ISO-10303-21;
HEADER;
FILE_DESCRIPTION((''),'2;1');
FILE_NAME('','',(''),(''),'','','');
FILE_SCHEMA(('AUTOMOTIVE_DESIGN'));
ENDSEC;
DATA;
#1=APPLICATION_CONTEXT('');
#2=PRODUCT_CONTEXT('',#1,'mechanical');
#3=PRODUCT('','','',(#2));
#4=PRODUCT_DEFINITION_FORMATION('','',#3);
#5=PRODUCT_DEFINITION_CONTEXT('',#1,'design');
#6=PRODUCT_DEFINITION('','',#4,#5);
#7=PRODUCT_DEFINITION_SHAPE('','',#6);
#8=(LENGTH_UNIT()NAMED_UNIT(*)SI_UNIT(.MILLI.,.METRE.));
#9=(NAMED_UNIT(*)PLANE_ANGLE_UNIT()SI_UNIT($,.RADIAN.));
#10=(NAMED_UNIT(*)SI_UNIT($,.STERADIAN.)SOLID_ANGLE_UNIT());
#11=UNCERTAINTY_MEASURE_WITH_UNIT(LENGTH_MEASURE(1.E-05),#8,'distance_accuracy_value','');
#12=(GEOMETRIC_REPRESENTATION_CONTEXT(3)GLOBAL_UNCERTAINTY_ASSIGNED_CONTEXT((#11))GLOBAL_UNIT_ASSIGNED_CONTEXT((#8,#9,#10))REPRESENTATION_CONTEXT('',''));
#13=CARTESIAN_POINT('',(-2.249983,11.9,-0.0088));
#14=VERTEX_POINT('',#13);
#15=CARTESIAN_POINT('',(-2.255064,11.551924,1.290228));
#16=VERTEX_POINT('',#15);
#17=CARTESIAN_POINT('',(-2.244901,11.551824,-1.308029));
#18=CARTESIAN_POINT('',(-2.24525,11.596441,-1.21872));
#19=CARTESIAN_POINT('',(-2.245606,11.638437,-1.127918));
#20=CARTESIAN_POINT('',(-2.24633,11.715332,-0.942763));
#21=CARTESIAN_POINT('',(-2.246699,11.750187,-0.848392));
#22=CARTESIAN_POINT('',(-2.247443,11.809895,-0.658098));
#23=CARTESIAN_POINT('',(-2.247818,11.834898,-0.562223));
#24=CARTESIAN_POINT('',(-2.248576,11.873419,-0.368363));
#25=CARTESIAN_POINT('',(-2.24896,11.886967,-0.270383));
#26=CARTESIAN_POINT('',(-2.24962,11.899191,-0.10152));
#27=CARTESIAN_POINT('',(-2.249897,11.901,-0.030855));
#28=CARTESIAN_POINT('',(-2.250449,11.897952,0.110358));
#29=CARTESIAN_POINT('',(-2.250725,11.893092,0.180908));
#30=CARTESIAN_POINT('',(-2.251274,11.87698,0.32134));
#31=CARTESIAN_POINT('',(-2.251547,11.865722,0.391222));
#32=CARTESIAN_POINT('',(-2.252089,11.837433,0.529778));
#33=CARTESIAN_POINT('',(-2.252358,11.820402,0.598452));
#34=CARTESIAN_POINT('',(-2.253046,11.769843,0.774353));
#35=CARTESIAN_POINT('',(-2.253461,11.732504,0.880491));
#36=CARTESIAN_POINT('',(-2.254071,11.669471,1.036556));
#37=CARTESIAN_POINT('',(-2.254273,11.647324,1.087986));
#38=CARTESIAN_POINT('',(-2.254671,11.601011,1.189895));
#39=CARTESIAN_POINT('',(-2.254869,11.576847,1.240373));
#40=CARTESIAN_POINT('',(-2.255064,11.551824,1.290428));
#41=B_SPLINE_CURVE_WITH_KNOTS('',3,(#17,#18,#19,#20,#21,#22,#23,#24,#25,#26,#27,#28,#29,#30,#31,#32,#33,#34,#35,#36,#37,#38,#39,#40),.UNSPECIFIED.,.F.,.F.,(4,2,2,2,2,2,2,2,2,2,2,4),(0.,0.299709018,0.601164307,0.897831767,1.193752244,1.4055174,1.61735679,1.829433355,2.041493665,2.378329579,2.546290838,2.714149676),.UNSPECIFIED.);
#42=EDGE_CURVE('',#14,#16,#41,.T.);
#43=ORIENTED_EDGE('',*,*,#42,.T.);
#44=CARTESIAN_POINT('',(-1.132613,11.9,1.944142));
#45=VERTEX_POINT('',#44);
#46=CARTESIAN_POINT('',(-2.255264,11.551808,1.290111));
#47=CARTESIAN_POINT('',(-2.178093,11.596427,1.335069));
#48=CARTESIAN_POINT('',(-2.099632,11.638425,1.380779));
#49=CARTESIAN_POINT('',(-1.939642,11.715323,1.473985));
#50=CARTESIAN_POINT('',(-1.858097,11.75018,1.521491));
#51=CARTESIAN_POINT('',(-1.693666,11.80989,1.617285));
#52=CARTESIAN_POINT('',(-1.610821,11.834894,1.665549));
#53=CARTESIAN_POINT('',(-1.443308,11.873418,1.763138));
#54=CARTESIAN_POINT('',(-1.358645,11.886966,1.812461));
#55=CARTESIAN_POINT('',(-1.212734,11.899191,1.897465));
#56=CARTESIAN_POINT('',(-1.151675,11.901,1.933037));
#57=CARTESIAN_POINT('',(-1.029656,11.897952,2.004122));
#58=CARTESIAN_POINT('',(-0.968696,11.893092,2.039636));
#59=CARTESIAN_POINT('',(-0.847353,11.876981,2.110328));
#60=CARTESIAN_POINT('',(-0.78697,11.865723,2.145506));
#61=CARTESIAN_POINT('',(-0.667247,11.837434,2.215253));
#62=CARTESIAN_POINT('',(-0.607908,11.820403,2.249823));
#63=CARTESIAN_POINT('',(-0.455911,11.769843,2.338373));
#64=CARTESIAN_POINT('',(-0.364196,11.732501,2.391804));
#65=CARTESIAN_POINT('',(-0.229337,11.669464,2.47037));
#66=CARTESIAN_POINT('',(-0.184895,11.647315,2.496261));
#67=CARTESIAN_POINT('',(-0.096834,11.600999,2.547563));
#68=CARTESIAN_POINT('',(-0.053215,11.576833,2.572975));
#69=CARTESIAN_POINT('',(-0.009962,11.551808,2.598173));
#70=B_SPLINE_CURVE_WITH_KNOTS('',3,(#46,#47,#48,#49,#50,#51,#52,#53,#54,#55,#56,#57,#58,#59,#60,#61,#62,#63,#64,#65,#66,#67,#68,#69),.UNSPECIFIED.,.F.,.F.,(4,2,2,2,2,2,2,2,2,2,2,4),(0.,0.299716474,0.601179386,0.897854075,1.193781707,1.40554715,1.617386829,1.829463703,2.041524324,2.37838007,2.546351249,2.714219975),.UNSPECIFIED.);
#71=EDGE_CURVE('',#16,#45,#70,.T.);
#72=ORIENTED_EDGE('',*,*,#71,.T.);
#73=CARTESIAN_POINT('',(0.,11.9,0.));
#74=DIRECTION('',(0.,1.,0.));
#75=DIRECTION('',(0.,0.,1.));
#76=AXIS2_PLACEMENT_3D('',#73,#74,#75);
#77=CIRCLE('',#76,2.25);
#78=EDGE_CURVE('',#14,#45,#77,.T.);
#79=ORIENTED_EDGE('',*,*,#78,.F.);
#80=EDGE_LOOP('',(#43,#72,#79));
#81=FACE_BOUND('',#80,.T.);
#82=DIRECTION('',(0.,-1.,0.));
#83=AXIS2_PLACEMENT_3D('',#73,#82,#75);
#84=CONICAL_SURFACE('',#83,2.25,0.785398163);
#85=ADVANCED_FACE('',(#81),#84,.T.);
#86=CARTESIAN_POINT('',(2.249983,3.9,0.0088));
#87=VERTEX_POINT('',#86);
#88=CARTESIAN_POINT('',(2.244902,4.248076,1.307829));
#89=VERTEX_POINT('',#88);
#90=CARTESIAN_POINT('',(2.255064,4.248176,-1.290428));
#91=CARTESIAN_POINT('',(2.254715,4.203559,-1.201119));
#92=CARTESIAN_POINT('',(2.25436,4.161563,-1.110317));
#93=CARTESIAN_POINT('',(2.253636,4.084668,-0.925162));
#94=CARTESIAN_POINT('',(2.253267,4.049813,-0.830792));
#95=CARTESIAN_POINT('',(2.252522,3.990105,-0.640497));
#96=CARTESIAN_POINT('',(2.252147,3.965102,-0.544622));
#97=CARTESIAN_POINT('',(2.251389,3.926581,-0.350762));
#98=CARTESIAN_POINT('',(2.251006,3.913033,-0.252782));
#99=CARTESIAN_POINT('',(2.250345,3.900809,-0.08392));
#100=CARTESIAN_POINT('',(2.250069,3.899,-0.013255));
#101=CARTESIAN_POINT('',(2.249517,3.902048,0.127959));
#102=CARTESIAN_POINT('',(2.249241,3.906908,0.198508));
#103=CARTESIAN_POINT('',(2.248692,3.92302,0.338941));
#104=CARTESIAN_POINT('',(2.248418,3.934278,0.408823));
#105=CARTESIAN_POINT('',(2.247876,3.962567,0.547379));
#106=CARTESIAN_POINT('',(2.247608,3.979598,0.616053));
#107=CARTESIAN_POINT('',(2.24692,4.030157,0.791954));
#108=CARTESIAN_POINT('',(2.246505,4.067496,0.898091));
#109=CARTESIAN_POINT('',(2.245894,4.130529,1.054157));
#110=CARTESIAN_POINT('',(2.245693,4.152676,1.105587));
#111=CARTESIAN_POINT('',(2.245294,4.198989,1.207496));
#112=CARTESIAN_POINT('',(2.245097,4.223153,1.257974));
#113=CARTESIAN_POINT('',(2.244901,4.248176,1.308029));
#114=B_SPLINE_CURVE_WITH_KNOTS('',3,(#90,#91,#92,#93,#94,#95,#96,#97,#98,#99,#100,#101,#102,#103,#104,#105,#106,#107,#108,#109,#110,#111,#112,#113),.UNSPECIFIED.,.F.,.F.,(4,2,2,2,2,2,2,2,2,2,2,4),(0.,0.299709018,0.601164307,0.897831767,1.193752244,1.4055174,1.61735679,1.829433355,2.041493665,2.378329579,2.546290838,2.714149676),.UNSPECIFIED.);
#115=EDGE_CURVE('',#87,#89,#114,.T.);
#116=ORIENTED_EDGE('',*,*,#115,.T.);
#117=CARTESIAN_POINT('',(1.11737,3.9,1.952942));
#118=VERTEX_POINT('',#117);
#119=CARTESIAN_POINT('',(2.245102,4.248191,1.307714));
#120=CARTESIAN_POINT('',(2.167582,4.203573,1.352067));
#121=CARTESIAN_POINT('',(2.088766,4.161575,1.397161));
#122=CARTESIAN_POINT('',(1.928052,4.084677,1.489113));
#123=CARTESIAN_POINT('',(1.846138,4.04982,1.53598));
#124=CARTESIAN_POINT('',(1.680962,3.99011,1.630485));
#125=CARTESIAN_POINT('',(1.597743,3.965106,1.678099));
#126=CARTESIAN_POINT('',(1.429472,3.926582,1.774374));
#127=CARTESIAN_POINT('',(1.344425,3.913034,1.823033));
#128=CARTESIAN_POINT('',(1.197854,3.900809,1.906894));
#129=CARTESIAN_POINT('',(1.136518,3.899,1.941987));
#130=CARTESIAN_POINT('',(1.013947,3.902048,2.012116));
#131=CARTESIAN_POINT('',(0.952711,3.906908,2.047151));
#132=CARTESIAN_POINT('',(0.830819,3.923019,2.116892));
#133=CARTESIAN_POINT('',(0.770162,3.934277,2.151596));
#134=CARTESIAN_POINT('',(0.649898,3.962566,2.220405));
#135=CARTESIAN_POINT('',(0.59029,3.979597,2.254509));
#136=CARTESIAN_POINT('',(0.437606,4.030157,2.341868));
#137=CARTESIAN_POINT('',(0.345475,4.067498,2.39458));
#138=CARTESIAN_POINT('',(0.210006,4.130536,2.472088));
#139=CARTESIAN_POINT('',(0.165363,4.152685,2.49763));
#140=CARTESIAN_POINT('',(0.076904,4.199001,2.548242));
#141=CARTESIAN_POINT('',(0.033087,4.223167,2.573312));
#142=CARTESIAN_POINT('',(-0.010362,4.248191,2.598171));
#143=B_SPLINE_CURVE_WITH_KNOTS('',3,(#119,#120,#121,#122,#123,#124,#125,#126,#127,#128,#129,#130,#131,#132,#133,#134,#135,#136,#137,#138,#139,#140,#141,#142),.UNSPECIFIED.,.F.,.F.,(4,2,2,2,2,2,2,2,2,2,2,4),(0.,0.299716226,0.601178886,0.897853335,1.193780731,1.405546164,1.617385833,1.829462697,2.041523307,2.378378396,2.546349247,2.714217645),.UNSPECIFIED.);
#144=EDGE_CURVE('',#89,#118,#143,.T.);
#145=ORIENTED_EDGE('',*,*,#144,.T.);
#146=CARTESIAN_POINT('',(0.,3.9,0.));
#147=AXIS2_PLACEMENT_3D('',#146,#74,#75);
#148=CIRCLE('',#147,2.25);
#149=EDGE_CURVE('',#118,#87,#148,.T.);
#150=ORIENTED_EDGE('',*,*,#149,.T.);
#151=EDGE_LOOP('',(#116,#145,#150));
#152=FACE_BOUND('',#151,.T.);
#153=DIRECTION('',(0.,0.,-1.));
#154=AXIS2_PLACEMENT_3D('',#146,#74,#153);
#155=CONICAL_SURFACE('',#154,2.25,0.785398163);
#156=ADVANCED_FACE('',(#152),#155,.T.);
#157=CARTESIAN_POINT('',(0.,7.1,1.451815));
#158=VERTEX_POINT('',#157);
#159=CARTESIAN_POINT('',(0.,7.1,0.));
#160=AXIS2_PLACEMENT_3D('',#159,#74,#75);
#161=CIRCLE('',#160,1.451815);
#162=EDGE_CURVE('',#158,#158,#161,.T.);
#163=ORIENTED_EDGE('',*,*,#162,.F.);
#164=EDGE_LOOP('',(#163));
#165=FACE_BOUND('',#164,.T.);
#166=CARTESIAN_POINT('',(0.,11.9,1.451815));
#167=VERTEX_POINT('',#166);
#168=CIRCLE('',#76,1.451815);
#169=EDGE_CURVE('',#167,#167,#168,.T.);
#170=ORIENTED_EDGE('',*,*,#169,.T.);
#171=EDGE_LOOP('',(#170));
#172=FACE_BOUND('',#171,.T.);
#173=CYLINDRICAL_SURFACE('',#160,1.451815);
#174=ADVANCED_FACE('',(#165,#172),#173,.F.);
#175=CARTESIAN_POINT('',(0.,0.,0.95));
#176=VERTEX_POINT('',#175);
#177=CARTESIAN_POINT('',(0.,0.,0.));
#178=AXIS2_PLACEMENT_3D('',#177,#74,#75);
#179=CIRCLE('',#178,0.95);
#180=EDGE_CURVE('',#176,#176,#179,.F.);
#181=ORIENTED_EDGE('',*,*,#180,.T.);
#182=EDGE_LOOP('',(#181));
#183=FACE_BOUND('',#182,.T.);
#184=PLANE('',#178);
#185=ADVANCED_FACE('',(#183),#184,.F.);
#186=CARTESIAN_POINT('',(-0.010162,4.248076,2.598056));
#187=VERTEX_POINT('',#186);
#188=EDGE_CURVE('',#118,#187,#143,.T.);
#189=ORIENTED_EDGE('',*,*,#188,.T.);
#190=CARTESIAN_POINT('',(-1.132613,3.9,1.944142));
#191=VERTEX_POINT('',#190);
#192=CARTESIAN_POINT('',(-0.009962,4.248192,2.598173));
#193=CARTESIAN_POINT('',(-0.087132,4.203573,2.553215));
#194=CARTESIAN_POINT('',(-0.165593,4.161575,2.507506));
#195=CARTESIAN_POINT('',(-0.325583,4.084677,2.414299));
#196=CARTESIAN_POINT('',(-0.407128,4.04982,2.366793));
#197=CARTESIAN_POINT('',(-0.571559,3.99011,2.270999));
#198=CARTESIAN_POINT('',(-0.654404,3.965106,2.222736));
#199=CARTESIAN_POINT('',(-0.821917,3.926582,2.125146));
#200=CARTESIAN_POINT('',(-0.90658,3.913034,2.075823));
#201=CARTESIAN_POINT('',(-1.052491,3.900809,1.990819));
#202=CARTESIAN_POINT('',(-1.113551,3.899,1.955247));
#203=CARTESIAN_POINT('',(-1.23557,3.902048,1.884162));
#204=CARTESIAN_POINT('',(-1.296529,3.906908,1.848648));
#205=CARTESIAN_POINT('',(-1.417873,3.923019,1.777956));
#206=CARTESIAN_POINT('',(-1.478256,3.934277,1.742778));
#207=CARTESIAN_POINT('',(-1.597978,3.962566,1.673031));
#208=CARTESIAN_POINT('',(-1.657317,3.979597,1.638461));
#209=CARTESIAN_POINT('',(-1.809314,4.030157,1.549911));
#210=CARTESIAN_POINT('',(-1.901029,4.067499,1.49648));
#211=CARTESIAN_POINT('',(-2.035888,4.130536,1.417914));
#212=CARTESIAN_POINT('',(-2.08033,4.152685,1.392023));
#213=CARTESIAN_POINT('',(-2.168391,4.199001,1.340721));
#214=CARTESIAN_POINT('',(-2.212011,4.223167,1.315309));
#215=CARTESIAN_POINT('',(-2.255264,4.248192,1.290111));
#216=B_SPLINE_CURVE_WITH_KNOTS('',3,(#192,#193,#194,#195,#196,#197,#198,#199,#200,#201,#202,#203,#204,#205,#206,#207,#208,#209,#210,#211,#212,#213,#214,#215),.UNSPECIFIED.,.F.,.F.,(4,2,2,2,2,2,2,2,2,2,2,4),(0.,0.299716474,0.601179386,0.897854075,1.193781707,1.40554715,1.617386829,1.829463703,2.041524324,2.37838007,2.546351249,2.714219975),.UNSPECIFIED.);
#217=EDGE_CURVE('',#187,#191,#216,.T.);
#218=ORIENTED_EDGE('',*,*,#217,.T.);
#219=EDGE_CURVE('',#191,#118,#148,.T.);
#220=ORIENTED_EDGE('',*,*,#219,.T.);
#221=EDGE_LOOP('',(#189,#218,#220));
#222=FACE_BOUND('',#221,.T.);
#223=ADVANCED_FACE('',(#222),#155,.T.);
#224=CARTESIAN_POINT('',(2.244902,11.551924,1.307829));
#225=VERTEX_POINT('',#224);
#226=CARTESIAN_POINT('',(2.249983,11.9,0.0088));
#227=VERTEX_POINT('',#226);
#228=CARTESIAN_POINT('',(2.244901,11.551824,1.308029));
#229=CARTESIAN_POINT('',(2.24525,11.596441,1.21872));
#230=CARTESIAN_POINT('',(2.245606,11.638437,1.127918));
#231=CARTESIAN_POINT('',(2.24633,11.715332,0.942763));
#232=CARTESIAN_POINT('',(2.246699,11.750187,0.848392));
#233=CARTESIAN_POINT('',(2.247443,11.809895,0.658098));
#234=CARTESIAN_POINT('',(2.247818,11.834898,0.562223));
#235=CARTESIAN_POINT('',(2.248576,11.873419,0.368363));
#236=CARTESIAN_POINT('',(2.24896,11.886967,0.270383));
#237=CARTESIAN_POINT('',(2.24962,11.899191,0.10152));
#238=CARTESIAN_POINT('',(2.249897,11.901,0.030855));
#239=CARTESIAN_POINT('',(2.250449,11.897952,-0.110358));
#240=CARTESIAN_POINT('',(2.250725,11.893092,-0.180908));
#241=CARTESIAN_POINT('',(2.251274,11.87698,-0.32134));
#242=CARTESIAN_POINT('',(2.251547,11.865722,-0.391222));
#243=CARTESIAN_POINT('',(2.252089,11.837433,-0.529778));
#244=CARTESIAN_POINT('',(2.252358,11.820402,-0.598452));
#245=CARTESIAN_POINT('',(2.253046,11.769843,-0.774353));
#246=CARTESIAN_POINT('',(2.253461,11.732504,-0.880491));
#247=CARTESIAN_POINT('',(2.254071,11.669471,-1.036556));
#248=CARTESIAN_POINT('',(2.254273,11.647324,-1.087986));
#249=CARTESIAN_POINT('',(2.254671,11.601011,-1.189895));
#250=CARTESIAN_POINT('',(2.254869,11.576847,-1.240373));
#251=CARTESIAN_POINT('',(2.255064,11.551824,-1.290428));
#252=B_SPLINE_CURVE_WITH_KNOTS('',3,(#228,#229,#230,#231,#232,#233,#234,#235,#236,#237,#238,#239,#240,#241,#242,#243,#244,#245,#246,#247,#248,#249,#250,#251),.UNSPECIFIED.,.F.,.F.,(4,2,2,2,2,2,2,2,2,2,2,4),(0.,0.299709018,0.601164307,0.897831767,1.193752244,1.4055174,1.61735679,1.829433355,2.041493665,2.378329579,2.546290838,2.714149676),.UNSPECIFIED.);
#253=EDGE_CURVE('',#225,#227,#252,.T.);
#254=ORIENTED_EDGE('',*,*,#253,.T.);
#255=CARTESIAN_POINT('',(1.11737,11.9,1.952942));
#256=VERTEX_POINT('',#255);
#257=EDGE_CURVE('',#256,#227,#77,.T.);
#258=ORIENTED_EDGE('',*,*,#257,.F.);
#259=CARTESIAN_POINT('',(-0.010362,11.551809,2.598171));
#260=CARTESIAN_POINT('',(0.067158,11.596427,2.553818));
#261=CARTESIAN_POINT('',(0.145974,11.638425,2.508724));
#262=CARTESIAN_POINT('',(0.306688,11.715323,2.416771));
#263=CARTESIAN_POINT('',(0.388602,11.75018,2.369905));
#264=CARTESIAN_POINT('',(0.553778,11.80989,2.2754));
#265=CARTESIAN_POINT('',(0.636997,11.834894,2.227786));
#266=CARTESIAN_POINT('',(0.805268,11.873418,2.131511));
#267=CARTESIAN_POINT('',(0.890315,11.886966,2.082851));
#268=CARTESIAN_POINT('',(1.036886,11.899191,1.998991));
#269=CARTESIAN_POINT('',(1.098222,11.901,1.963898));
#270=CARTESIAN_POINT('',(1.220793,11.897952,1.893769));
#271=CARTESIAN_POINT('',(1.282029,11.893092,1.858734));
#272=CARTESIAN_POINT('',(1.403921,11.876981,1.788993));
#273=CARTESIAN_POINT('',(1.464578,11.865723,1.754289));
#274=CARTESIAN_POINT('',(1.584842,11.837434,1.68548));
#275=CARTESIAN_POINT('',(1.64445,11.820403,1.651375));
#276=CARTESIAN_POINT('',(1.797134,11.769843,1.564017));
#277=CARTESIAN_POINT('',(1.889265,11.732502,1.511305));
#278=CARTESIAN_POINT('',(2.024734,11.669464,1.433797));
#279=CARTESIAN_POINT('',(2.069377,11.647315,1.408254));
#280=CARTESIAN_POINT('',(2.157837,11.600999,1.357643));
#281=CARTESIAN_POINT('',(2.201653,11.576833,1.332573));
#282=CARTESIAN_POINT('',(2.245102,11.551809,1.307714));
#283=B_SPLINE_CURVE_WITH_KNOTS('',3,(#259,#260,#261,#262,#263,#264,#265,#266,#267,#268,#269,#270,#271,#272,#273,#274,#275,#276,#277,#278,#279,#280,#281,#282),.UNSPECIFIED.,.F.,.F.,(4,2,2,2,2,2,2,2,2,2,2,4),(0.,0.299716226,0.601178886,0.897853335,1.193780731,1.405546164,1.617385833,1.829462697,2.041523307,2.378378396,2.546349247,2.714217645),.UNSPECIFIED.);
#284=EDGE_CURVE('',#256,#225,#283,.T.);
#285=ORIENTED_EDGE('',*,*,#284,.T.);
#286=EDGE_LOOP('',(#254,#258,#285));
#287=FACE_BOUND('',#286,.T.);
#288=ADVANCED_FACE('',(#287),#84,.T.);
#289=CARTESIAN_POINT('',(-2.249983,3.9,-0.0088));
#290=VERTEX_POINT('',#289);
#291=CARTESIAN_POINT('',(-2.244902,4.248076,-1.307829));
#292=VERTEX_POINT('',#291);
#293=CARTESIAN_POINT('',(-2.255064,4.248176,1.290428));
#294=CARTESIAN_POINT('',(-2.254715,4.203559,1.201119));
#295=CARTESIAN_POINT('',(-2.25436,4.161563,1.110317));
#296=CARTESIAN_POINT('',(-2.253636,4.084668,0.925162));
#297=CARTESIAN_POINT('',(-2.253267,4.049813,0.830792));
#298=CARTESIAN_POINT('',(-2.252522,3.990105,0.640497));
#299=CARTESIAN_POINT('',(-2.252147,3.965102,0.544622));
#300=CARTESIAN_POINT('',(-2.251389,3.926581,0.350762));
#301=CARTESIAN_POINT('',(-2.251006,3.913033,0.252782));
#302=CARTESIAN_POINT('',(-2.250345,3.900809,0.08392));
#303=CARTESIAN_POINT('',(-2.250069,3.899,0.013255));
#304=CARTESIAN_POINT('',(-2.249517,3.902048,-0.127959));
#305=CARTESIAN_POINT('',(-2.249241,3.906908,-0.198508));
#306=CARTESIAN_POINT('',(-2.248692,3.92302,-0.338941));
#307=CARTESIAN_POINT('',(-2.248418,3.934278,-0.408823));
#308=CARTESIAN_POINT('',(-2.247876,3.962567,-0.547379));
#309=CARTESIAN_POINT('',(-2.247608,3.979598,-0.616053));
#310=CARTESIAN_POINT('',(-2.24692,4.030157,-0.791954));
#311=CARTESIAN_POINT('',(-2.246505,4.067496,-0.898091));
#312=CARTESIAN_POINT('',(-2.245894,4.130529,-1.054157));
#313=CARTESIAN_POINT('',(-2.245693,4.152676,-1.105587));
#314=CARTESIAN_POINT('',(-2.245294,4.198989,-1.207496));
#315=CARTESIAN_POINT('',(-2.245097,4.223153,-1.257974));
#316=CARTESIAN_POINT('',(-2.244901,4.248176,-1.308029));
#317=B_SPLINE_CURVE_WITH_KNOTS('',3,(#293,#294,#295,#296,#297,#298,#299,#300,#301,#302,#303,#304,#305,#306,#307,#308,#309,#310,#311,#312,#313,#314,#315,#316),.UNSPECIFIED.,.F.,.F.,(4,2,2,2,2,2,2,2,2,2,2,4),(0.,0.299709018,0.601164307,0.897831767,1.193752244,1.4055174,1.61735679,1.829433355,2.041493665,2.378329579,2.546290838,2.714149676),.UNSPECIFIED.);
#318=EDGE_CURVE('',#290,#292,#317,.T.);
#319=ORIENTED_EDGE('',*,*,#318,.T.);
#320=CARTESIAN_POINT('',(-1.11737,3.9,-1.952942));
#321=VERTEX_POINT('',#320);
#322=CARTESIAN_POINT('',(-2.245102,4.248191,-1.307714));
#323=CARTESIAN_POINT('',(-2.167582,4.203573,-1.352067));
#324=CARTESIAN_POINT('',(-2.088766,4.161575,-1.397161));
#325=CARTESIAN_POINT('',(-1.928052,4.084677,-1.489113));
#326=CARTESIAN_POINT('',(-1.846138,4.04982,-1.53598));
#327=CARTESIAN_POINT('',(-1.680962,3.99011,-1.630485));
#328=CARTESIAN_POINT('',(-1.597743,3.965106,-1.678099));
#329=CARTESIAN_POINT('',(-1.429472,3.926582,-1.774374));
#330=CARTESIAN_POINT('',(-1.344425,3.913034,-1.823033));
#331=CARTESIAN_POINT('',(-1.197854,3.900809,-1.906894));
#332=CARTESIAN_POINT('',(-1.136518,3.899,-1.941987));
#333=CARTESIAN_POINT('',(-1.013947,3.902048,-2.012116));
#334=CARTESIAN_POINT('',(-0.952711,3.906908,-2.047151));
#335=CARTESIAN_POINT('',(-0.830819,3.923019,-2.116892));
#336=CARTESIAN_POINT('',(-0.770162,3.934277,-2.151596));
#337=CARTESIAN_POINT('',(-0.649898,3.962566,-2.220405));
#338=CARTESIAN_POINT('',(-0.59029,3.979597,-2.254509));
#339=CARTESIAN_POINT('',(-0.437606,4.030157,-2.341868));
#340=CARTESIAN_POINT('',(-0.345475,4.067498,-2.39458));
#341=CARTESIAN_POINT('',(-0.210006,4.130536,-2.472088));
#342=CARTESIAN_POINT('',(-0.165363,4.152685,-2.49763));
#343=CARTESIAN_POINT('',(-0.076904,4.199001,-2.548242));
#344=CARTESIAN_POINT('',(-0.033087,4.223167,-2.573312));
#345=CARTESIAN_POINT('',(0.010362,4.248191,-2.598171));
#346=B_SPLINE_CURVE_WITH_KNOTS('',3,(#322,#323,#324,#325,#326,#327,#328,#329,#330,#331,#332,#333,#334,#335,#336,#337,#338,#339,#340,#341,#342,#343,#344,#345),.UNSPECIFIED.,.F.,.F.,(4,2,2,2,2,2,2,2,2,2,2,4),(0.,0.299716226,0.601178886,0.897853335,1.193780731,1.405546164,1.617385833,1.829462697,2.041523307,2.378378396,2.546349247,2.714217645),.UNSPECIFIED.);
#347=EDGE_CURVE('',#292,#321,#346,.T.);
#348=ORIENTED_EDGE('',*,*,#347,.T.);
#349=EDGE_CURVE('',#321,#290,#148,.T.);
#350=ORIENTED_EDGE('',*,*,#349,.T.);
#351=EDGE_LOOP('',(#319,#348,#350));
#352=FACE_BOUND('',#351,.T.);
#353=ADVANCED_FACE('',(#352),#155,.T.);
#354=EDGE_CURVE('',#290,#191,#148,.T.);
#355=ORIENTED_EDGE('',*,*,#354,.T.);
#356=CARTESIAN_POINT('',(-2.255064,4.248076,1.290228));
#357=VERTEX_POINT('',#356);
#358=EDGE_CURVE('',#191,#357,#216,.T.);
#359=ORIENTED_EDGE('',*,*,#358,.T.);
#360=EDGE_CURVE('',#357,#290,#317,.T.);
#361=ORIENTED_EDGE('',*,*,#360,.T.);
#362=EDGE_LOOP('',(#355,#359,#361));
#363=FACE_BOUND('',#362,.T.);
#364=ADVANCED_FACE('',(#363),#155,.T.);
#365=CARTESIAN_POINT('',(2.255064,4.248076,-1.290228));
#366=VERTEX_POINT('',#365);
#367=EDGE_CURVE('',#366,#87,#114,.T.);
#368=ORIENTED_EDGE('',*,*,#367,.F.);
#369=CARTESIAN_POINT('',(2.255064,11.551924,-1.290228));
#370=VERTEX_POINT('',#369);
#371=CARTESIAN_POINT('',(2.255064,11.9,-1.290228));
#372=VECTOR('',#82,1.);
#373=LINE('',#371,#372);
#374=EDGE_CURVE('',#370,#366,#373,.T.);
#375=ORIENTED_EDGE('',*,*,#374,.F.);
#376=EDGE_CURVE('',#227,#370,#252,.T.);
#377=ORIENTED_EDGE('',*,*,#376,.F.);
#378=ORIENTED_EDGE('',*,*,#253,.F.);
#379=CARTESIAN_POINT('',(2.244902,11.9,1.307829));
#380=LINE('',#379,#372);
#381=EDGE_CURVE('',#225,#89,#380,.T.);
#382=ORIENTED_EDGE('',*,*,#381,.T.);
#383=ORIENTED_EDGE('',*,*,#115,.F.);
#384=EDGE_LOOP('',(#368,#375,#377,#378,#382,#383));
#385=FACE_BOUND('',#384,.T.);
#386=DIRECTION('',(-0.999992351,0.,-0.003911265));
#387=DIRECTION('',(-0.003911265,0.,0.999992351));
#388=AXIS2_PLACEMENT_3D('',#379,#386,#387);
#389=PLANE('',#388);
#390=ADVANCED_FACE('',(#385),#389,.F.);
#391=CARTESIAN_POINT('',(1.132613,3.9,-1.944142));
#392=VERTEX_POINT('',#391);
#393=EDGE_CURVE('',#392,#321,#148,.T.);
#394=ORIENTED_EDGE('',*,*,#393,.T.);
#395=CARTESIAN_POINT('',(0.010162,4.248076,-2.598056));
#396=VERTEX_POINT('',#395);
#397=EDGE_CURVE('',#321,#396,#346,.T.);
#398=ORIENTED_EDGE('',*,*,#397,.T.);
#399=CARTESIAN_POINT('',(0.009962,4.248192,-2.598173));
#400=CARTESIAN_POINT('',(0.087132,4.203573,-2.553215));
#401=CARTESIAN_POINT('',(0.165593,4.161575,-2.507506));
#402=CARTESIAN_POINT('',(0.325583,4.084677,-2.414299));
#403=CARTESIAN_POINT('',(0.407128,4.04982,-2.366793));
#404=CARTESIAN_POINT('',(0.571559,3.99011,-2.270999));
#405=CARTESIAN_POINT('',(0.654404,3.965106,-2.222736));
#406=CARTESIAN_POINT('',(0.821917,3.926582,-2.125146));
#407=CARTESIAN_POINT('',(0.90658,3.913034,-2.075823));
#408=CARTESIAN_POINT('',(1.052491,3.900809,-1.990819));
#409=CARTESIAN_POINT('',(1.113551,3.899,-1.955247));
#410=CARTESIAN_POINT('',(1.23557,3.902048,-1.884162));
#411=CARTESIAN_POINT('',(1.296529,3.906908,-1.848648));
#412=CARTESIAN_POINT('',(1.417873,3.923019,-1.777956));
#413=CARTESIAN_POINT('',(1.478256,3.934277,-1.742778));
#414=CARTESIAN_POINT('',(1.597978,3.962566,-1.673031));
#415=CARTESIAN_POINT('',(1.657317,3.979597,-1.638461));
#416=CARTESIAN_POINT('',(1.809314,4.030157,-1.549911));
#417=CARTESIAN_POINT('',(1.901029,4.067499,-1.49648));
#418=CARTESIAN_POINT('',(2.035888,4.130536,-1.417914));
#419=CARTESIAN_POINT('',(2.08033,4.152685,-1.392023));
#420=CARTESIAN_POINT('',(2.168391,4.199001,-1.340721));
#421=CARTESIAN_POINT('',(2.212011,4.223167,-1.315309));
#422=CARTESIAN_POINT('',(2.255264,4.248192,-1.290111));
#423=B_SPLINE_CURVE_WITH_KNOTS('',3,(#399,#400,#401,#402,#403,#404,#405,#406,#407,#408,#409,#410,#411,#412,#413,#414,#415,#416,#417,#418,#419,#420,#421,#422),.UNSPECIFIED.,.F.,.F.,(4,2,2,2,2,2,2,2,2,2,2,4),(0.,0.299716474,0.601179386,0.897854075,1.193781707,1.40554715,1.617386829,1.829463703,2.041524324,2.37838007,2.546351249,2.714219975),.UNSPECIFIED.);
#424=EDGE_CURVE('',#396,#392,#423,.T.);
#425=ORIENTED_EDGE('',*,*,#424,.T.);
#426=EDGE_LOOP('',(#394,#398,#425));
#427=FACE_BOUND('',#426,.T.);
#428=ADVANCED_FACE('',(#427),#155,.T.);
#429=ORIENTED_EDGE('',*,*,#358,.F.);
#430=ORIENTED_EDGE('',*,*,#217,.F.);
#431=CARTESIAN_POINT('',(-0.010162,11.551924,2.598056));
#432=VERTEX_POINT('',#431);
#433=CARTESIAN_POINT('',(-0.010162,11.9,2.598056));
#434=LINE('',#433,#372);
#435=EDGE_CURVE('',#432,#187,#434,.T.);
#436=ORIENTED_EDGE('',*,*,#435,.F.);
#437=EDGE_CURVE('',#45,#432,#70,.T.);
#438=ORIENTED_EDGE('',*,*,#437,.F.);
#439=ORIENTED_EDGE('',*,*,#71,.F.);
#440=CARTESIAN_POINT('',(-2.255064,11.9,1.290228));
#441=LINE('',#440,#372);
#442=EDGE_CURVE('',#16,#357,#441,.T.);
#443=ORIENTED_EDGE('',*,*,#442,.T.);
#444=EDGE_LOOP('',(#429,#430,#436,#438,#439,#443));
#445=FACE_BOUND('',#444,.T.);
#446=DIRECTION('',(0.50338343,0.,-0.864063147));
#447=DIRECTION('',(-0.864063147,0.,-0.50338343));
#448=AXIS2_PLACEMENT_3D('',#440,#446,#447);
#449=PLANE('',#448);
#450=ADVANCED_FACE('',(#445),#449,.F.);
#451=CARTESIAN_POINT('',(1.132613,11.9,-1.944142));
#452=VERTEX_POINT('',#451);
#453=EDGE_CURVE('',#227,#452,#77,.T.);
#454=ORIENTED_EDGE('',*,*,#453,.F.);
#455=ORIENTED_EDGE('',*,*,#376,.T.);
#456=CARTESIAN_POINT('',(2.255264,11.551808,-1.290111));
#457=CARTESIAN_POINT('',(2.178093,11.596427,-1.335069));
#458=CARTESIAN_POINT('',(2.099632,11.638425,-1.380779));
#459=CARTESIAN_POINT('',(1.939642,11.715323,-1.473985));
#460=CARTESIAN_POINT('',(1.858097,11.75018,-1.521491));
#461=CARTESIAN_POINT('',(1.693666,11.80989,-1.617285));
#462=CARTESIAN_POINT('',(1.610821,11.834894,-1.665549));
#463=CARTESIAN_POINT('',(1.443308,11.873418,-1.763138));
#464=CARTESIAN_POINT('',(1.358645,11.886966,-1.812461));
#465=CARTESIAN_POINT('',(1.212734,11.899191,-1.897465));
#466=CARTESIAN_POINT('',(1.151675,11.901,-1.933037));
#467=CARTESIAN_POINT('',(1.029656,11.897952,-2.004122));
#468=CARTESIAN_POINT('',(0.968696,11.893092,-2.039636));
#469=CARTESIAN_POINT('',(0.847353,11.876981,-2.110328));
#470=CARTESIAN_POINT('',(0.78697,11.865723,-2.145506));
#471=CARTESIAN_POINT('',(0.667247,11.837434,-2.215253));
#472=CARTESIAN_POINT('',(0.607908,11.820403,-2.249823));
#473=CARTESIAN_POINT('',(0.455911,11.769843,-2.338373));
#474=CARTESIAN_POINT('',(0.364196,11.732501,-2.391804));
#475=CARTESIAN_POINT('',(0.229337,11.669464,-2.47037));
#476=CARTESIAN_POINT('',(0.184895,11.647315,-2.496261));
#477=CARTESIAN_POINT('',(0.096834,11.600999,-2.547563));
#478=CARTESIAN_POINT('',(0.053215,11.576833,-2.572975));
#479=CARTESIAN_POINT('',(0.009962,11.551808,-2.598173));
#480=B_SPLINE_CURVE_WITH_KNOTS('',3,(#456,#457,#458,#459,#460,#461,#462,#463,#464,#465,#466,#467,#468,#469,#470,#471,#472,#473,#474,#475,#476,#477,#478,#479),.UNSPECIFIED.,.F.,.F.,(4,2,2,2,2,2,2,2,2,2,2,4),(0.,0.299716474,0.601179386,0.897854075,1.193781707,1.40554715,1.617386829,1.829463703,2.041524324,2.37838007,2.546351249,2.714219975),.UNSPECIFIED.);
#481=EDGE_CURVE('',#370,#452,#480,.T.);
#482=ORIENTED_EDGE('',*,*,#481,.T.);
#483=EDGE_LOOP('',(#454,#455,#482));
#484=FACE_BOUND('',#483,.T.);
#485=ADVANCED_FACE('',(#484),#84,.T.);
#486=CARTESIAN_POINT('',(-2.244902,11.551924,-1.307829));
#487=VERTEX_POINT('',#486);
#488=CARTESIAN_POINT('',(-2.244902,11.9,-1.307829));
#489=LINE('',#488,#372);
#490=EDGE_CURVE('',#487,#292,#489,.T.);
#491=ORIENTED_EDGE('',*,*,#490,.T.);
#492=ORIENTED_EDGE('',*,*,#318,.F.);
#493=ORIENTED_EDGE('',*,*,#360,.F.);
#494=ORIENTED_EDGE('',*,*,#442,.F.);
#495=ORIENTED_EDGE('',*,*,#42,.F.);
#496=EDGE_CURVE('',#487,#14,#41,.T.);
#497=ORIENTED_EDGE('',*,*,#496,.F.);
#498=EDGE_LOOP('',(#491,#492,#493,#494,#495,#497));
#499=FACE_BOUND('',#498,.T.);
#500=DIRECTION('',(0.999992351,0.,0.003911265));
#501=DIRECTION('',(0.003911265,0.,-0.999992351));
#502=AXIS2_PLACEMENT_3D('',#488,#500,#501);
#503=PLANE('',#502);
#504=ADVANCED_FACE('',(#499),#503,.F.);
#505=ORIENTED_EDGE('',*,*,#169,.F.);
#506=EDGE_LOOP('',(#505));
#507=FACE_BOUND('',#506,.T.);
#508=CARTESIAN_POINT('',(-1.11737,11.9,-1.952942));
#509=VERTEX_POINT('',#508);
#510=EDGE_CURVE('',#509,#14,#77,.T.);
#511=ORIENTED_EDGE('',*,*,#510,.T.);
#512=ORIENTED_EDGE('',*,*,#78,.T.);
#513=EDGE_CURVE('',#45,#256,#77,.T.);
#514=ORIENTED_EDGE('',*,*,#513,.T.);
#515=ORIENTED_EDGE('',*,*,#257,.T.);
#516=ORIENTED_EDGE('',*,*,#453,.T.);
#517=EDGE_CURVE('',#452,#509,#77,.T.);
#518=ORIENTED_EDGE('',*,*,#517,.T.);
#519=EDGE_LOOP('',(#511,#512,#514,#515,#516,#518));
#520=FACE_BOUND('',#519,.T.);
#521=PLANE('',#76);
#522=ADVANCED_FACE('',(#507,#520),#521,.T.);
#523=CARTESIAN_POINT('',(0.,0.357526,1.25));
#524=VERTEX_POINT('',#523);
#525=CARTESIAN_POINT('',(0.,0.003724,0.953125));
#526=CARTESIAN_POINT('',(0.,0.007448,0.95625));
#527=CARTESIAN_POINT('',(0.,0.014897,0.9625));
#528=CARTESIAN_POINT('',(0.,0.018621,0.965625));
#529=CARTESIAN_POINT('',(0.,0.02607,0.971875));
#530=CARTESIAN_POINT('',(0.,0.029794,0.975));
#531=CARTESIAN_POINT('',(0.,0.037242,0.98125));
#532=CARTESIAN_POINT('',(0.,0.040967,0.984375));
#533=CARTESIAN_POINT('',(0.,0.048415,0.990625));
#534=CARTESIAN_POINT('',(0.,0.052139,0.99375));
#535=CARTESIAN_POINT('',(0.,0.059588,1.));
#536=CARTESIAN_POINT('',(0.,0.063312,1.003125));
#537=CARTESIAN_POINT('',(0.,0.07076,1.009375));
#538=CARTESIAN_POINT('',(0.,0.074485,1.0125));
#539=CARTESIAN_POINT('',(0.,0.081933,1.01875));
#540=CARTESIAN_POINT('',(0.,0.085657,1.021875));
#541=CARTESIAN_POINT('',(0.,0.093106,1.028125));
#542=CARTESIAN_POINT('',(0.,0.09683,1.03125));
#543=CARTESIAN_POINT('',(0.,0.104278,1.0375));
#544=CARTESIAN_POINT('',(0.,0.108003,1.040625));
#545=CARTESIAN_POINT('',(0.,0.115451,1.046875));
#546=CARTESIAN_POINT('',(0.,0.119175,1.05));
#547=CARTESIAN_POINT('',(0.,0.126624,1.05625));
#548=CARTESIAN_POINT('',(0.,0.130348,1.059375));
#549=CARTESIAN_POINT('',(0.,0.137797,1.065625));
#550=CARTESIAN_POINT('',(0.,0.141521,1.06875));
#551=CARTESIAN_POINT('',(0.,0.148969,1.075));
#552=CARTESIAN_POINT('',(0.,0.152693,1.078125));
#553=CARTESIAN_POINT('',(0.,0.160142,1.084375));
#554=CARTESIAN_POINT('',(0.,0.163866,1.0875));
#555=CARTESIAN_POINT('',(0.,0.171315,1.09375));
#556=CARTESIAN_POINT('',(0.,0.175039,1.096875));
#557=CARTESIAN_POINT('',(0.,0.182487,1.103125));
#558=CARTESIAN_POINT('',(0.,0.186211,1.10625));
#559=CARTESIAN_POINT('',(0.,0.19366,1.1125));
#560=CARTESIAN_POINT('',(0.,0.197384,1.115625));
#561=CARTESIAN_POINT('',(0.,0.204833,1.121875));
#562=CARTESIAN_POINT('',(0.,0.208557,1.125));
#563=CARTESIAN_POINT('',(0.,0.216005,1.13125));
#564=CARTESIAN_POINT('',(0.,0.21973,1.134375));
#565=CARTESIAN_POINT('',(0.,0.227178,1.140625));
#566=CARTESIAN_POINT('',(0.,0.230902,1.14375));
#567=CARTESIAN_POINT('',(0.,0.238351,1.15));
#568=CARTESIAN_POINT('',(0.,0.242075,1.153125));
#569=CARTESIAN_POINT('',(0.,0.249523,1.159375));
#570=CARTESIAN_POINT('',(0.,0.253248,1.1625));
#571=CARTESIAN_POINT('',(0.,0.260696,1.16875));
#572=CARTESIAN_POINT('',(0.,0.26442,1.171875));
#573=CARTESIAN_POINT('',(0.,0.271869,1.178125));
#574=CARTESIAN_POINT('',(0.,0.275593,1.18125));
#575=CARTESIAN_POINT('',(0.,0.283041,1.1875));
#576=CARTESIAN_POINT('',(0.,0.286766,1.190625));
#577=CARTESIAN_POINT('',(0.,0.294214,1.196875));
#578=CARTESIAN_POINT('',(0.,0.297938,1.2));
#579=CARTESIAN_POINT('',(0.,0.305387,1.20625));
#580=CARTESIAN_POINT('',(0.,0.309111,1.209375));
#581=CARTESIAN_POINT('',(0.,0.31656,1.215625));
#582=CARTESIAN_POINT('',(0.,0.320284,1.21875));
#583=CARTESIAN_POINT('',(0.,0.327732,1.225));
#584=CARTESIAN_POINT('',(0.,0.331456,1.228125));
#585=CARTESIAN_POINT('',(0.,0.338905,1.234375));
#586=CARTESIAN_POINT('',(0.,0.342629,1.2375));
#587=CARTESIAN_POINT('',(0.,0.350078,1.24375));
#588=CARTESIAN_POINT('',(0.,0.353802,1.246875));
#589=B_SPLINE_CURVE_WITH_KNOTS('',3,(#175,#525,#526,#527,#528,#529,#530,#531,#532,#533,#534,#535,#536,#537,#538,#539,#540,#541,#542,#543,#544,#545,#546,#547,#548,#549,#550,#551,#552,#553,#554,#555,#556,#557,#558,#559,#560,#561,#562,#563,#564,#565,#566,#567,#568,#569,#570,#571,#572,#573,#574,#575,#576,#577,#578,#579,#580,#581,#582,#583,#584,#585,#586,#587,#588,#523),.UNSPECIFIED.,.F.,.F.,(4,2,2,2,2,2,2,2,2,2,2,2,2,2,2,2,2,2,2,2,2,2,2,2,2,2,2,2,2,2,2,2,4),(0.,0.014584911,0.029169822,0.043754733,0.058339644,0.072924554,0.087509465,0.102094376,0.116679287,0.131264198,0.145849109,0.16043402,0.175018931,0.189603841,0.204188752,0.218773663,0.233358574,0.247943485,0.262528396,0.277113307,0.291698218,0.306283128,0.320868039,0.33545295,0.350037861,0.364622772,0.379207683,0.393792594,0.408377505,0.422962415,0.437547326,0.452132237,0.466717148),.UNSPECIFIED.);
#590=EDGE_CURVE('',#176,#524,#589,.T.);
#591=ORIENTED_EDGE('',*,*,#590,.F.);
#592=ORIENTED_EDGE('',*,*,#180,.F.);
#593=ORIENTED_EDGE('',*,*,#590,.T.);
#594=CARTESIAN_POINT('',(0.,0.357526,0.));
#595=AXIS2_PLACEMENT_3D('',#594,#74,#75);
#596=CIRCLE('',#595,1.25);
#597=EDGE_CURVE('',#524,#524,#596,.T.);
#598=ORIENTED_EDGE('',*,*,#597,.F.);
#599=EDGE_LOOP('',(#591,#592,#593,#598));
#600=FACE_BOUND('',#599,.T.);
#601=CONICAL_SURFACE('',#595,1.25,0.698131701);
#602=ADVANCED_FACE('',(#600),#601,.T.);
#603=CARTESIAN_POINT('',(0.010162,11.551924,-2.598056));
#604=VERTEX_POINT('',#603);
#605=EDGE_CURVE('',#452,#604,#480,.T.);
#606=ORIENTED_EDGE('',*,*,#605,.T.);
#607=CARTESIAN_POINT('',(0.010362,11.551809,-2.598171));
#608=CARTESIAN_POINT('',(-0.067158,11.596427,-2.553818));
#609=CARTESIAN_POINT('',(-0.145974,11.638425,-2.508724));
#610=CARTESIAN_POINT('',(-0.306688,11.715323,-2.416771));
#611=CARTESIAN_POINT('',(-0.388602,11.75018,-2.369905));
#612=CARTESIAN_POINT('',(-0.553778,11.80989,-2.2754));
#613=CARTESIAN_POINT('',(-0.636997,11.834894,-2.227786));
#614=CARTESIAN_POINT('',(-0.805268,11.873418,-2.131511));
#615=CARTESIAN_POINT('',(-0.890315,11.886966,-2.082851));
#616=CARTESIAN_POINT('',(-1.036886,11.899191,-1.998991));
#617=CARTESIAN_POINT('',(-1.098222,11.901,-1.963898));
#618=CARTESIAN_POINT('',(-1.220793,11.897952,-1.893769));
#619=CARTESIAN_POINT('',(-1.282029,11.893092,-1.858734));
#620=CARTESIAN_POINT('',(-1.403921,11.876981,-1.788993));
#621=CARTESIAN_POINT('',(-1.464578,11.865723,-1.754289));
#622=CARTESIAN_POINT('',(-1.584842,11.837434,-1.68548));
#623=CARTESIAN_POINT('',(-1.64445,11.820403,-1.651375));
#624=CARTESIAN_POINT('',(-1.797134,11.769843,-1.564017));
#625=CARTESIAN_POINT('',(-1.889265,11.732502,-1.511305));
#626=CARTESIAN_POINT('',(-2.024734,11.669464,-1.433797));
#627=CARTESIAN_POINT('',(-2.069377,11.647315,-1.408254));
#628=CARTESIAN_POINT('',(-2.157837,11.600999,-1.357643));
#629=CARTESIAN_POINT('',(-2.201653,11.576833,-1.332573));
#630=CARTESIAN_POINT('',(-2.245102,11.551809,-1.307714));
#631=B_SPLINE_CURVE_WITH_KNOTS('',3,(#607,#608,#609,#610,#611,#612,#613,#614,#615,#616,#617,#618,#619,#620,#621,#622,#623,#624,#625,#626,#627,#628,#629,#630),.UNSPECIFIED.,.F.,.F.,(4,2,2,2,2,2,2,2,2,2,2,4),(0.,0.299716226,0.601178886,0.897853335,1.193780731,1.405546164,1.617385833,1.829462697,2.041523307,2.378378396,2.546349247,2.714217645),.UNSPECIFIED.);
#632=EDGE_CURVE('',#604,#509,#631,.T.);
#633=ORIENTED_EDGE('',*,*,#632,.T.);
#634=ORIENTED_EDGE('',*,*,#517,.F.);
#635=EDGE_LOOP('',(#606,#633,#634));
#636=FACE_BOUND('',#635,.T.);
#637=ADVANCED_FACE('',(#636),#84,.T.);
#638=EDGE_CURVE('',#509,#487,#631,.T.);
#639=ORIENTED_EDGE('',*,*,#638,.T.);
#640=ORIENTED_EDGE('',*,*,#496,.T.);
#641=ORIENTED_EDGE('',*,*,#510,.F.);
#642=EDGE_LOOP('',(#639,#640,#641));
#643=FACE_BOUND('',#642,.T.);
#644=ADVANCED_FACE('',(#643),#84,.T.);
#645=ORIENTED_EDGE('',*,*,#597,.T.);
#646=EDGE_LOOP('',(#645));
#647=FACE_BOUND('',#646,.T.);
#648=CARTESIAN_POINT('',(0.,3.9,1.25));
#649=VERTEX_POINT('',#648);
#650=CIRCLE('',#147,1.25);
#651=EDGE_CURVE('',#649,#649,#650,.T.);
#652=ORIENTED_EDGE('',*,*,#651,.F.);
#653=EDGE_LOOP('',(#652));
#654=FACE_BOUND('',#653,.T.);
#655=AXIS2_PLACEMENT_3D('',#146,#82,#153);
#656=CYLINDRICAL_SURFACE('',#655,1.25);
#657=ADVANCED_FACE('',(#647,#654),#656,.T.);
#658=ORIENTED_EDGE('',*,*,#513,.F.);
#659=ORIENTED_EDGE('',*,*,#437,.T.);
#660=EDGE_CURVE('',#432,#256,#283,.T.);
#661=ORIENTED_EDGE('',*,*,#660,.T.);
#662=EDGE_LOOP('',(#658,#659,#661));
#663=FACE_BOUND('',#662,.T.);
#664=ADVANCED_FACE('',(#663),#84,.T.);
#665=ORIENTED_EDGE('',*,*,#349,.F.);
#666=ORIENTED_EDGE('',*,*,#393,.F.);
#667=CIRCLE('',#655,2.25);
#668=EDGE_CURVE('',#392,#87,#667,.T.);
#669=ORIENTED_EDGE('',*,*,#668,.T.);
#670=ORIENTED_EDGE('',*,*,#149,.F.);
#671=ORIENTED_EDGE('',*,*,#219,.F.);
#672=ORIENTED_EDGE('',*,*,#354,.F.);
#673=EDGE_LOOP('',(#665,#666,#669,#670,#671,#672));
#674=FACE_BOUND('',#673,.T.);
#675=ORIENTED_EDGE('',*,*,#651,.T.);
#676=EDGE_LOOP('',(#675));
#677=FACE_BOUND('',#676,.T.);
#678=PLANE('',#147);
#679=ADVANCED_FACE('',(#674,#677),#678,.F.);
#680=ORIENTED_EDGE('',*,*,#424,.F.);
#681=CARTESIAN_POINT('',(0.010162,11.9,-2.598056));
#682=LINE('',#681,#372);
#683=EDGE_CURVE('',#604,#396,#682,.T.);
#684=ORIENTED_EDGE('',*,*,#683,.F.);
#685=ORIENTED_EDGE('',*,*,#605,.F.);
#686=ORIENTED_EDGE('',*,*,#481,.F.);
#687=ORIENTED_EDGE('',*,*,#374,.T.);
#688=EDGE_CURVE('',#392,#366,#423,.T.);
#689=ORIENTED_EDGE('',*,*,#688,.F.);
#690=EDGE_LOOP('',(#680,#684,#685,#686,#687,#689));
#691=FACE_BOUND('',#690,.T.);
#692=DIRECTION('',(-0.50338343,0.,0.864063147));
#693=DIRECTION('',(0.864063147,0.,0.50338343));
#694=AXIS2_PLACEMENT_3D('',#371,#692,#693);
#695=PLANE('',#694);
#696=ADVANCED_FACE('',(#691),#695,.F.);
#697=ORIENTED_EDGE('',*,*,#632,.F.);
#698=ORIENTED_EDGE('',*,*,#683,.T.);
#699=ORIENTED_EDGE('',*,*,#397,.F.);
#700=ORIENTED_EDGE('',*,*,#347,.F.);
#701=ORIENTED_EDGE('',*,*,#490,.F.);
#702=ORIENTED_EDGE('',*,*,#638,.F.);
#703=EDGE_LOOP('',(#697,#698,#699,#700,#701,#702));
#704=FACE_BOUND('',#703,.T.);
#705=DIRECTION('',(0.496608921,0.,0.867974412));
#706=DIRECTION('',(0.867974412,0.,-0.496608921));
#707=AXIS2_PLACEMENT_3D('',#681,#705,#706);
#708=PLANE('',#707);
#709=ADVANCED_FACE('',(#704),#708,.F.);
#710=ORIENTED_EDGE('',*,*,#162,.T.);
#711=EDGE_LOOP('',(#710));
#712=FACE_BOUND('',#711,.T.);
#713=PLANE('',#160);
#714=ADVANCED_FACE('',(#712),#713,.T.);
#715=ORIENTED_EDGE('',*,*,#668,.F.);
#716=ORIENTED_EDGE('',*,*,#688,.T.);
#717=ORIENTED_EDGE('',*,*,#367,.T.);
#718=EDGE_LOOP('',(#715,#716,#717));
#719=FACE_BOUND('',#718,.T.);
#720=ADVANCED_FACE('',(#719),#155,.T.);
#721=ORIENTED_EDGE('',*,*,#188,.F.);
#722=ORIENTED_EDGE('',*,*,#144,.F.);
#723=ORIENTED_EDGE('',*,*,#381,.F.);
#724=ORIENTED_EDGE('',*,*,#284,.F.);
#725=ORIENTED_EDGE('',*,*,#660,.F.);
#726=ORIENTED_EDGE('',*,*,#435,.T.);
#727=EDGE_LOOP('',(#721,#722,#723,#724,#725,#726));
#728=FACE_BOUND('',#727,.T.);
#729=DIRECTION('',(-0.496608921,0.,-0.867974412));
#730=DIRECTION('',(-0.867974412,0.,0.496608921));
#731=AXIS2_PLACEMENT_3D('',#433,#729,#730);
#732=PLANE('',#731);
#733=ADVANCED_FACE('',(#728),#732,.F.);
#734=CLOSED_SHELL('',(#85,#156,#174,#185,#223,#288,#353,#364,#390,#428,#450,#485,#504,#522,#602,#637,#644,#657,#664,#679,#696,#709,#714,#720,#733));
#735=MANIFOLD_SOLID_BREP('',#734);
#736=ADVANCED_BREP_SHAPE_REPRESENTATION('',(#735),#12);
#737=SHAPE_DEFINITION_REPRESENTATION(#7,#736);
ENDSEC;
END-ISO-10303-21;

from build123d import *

# Parameters (mm, degrees)
SKETCH1_R           = 1.25
BOSS_EXTRUDE1_DEPTH = 3.9
BOSS_EXTRUDE2_DEPTH = 8
SKETCH3_R           = 1.45181539
CUT_EXTRUDE1_DEPTH  = 4.8
SKETCH4_OUTSIDE_W   = 36.034
SKETCH4_OUTSIDE_H   = 36.72
SKETCH4_OUTSIDE_R   = 2.25
CUT_EXTRUDE2_DEPTH  = 13.387300307
CUT_EXTRUDE2_DRAFT  = -45
SKETCH5_OUTSIDE_W   = 28.676
SKETCH5_OUTSIDE_H   = 29.362
SKETCH5_OUTSIDE_R   = 2.25
CUT_EXTRUDE3_DEPTH  = 9.708341341
CUT_EXTRUDE3_DRAFT  = -45
CHAMFER1_SIZE       = 0.3
CHAMFER1_SIZE2      = 0.357526078


with BuildPart() as part:
    # Sketch1 → Boss-Extrude1 (new body)
    with BuildSketch(Plane(origin=(0, 0, 0), x_dir=(1, 0, 0), z_dir=(0, 1, 0))):
        with Locations(Location((0, 0, 0), (0, 0, 270))):
            Circle(SKETCH1_R)
    extrude(amount=BOSS_EXTRUDE1_DEPTH)

    # Sketch2 → Boss-Extrude2 (add)
    with BuildSketch(Plane(origin=(0, 3.9, 0), x_dir=(1, 0, 0), z_dir=(0, 1, 0))):
        Polygon((2.244901907, -1.307828516), (2.255063672, 1.290227823), (0.010161765, 2.598056339), (-2.244901907, 1.307828516), (-2.255063672, -1.290227823), (-0.010161765, -2.598056339), align=None)
    extrude(amount=BOSS_EXTRUDE2_DEPTH)

    # Sketch3 → Cut-Extrude1 (cut)
    with BuildSketch(Plane(origin=(0, 11.9, 0), x_dir=(1, 0, 0), z_dir=(0, 1, 0))):
        with Locations(Location((0, 0, 0), (0, 0, 270))):
            Circle(SKETCH3_R)
    extrude(amount=-CUT_EXTRUDE1_DEPTH, mode=Mode.SUBTRACT)


with BuildPart() as cut_extrude2_tool:
    # Sketch4 outside → Cut-Extrude2 (with draft: the straight prism first)
    with BuildSketch(Plane(origin=(0, 11.9, 0), x_dir=(1, 0, 0), z_dir=(0, 1, 0))):
        Rectangle(SKETCH4_OUTSIDE_W, SKETCH4_OUTSIDE_H)
        Circle(SKETCH4_OUTSIDE_R, mode=Mode.SUBTRACT)
    extrude(amount=-CUT_EXTRUDE2_DEPTH)
    # Cut-Extrude2: the draft: its side faces are tilted about the plane it starts from
    cut_extrude2_sides = [cut_extrude2_tool.faces().sort_by_distance(p)[0] for p in [
        (0, 5.206349846, 18.36),
        (18.017, 5.206349846, 0),
        (0, 5.206349846, -18.36),
        (-18.017, 5.206349846, 0),
        (-2.25, 5.206349846, 0),
    ]]
    draft(cut_extrude2_sides, Plane(origin=(0, 11.9, 0), x_dir=(1, 0, 0), z_dir=(0, 1, 0)), CUT_EXTRUDE2_DRAFT)


with BuildPart() as part_1:
    add(part.part)

    # Cut-Extrude2: cut by cut_extrude2_tool
    add(cut_extrude2_tool.part, mode=Mode.SUBTRACT)


with BuildPart() as cut_extrude3_tool:
    # Sketch5 outside → Cut-Extrude3 (with draft: the straight prism first)
    with BuildSketch(Plane.XZ.offset(-3.9)):
        Rectangle(SKETCH5_OUTSIDE_W, SKETCH5_OUTSIDE_H)
        Circle(SKETCH5_OUTSIDE_R, mode=Mode.SUBTRACT)
    extrude(amount=-CUT_EXTRUDE3_DEPTH)
    # Cut-Extrude3: the draft: its side faces are tilted about the plane it starts from
    cut_extrude3_sides = [cut_extrude3_tool.faces().sort_by_distance(p)[0] for p in [
        (0, 8.75417067, -14.681),
        (14.338, 8.75417067, 0),
        (0, 8.75417067, 14.681),
        (-14.338, 8.75417067, 0),
        (-2.25, 8.75417067, 0),
    ]]
    draft(cut_extrude3_sides, Plane.XZ.offset(-3.9), CUT_EXTRUDE3_DRAFT)


with BuildPart() as part_2:
    add(part_1.part)

    # Cut-Extrude3: cut by cut_extrude3_tool
    add(cut_extrude3_tool.part, mode=Mode.SUBTRACT)

    # Chamfer1
    chamfer1_edges = [part_2.edges().sort_by_distance(p)[0] for p in [
        (0, 0, -1.25),
    ]]
    chamfer1_side = [part_2.faces().sort_by_distance(p)[0] for p in [
        (0, 0, 0),
    ]]
    chamfer(chamfer1_edges, length=CHAMFER1_SIZE, length2=CHAMFER1_SIZE2, reference=chamfer1_side[0])


solid = part_2.part
